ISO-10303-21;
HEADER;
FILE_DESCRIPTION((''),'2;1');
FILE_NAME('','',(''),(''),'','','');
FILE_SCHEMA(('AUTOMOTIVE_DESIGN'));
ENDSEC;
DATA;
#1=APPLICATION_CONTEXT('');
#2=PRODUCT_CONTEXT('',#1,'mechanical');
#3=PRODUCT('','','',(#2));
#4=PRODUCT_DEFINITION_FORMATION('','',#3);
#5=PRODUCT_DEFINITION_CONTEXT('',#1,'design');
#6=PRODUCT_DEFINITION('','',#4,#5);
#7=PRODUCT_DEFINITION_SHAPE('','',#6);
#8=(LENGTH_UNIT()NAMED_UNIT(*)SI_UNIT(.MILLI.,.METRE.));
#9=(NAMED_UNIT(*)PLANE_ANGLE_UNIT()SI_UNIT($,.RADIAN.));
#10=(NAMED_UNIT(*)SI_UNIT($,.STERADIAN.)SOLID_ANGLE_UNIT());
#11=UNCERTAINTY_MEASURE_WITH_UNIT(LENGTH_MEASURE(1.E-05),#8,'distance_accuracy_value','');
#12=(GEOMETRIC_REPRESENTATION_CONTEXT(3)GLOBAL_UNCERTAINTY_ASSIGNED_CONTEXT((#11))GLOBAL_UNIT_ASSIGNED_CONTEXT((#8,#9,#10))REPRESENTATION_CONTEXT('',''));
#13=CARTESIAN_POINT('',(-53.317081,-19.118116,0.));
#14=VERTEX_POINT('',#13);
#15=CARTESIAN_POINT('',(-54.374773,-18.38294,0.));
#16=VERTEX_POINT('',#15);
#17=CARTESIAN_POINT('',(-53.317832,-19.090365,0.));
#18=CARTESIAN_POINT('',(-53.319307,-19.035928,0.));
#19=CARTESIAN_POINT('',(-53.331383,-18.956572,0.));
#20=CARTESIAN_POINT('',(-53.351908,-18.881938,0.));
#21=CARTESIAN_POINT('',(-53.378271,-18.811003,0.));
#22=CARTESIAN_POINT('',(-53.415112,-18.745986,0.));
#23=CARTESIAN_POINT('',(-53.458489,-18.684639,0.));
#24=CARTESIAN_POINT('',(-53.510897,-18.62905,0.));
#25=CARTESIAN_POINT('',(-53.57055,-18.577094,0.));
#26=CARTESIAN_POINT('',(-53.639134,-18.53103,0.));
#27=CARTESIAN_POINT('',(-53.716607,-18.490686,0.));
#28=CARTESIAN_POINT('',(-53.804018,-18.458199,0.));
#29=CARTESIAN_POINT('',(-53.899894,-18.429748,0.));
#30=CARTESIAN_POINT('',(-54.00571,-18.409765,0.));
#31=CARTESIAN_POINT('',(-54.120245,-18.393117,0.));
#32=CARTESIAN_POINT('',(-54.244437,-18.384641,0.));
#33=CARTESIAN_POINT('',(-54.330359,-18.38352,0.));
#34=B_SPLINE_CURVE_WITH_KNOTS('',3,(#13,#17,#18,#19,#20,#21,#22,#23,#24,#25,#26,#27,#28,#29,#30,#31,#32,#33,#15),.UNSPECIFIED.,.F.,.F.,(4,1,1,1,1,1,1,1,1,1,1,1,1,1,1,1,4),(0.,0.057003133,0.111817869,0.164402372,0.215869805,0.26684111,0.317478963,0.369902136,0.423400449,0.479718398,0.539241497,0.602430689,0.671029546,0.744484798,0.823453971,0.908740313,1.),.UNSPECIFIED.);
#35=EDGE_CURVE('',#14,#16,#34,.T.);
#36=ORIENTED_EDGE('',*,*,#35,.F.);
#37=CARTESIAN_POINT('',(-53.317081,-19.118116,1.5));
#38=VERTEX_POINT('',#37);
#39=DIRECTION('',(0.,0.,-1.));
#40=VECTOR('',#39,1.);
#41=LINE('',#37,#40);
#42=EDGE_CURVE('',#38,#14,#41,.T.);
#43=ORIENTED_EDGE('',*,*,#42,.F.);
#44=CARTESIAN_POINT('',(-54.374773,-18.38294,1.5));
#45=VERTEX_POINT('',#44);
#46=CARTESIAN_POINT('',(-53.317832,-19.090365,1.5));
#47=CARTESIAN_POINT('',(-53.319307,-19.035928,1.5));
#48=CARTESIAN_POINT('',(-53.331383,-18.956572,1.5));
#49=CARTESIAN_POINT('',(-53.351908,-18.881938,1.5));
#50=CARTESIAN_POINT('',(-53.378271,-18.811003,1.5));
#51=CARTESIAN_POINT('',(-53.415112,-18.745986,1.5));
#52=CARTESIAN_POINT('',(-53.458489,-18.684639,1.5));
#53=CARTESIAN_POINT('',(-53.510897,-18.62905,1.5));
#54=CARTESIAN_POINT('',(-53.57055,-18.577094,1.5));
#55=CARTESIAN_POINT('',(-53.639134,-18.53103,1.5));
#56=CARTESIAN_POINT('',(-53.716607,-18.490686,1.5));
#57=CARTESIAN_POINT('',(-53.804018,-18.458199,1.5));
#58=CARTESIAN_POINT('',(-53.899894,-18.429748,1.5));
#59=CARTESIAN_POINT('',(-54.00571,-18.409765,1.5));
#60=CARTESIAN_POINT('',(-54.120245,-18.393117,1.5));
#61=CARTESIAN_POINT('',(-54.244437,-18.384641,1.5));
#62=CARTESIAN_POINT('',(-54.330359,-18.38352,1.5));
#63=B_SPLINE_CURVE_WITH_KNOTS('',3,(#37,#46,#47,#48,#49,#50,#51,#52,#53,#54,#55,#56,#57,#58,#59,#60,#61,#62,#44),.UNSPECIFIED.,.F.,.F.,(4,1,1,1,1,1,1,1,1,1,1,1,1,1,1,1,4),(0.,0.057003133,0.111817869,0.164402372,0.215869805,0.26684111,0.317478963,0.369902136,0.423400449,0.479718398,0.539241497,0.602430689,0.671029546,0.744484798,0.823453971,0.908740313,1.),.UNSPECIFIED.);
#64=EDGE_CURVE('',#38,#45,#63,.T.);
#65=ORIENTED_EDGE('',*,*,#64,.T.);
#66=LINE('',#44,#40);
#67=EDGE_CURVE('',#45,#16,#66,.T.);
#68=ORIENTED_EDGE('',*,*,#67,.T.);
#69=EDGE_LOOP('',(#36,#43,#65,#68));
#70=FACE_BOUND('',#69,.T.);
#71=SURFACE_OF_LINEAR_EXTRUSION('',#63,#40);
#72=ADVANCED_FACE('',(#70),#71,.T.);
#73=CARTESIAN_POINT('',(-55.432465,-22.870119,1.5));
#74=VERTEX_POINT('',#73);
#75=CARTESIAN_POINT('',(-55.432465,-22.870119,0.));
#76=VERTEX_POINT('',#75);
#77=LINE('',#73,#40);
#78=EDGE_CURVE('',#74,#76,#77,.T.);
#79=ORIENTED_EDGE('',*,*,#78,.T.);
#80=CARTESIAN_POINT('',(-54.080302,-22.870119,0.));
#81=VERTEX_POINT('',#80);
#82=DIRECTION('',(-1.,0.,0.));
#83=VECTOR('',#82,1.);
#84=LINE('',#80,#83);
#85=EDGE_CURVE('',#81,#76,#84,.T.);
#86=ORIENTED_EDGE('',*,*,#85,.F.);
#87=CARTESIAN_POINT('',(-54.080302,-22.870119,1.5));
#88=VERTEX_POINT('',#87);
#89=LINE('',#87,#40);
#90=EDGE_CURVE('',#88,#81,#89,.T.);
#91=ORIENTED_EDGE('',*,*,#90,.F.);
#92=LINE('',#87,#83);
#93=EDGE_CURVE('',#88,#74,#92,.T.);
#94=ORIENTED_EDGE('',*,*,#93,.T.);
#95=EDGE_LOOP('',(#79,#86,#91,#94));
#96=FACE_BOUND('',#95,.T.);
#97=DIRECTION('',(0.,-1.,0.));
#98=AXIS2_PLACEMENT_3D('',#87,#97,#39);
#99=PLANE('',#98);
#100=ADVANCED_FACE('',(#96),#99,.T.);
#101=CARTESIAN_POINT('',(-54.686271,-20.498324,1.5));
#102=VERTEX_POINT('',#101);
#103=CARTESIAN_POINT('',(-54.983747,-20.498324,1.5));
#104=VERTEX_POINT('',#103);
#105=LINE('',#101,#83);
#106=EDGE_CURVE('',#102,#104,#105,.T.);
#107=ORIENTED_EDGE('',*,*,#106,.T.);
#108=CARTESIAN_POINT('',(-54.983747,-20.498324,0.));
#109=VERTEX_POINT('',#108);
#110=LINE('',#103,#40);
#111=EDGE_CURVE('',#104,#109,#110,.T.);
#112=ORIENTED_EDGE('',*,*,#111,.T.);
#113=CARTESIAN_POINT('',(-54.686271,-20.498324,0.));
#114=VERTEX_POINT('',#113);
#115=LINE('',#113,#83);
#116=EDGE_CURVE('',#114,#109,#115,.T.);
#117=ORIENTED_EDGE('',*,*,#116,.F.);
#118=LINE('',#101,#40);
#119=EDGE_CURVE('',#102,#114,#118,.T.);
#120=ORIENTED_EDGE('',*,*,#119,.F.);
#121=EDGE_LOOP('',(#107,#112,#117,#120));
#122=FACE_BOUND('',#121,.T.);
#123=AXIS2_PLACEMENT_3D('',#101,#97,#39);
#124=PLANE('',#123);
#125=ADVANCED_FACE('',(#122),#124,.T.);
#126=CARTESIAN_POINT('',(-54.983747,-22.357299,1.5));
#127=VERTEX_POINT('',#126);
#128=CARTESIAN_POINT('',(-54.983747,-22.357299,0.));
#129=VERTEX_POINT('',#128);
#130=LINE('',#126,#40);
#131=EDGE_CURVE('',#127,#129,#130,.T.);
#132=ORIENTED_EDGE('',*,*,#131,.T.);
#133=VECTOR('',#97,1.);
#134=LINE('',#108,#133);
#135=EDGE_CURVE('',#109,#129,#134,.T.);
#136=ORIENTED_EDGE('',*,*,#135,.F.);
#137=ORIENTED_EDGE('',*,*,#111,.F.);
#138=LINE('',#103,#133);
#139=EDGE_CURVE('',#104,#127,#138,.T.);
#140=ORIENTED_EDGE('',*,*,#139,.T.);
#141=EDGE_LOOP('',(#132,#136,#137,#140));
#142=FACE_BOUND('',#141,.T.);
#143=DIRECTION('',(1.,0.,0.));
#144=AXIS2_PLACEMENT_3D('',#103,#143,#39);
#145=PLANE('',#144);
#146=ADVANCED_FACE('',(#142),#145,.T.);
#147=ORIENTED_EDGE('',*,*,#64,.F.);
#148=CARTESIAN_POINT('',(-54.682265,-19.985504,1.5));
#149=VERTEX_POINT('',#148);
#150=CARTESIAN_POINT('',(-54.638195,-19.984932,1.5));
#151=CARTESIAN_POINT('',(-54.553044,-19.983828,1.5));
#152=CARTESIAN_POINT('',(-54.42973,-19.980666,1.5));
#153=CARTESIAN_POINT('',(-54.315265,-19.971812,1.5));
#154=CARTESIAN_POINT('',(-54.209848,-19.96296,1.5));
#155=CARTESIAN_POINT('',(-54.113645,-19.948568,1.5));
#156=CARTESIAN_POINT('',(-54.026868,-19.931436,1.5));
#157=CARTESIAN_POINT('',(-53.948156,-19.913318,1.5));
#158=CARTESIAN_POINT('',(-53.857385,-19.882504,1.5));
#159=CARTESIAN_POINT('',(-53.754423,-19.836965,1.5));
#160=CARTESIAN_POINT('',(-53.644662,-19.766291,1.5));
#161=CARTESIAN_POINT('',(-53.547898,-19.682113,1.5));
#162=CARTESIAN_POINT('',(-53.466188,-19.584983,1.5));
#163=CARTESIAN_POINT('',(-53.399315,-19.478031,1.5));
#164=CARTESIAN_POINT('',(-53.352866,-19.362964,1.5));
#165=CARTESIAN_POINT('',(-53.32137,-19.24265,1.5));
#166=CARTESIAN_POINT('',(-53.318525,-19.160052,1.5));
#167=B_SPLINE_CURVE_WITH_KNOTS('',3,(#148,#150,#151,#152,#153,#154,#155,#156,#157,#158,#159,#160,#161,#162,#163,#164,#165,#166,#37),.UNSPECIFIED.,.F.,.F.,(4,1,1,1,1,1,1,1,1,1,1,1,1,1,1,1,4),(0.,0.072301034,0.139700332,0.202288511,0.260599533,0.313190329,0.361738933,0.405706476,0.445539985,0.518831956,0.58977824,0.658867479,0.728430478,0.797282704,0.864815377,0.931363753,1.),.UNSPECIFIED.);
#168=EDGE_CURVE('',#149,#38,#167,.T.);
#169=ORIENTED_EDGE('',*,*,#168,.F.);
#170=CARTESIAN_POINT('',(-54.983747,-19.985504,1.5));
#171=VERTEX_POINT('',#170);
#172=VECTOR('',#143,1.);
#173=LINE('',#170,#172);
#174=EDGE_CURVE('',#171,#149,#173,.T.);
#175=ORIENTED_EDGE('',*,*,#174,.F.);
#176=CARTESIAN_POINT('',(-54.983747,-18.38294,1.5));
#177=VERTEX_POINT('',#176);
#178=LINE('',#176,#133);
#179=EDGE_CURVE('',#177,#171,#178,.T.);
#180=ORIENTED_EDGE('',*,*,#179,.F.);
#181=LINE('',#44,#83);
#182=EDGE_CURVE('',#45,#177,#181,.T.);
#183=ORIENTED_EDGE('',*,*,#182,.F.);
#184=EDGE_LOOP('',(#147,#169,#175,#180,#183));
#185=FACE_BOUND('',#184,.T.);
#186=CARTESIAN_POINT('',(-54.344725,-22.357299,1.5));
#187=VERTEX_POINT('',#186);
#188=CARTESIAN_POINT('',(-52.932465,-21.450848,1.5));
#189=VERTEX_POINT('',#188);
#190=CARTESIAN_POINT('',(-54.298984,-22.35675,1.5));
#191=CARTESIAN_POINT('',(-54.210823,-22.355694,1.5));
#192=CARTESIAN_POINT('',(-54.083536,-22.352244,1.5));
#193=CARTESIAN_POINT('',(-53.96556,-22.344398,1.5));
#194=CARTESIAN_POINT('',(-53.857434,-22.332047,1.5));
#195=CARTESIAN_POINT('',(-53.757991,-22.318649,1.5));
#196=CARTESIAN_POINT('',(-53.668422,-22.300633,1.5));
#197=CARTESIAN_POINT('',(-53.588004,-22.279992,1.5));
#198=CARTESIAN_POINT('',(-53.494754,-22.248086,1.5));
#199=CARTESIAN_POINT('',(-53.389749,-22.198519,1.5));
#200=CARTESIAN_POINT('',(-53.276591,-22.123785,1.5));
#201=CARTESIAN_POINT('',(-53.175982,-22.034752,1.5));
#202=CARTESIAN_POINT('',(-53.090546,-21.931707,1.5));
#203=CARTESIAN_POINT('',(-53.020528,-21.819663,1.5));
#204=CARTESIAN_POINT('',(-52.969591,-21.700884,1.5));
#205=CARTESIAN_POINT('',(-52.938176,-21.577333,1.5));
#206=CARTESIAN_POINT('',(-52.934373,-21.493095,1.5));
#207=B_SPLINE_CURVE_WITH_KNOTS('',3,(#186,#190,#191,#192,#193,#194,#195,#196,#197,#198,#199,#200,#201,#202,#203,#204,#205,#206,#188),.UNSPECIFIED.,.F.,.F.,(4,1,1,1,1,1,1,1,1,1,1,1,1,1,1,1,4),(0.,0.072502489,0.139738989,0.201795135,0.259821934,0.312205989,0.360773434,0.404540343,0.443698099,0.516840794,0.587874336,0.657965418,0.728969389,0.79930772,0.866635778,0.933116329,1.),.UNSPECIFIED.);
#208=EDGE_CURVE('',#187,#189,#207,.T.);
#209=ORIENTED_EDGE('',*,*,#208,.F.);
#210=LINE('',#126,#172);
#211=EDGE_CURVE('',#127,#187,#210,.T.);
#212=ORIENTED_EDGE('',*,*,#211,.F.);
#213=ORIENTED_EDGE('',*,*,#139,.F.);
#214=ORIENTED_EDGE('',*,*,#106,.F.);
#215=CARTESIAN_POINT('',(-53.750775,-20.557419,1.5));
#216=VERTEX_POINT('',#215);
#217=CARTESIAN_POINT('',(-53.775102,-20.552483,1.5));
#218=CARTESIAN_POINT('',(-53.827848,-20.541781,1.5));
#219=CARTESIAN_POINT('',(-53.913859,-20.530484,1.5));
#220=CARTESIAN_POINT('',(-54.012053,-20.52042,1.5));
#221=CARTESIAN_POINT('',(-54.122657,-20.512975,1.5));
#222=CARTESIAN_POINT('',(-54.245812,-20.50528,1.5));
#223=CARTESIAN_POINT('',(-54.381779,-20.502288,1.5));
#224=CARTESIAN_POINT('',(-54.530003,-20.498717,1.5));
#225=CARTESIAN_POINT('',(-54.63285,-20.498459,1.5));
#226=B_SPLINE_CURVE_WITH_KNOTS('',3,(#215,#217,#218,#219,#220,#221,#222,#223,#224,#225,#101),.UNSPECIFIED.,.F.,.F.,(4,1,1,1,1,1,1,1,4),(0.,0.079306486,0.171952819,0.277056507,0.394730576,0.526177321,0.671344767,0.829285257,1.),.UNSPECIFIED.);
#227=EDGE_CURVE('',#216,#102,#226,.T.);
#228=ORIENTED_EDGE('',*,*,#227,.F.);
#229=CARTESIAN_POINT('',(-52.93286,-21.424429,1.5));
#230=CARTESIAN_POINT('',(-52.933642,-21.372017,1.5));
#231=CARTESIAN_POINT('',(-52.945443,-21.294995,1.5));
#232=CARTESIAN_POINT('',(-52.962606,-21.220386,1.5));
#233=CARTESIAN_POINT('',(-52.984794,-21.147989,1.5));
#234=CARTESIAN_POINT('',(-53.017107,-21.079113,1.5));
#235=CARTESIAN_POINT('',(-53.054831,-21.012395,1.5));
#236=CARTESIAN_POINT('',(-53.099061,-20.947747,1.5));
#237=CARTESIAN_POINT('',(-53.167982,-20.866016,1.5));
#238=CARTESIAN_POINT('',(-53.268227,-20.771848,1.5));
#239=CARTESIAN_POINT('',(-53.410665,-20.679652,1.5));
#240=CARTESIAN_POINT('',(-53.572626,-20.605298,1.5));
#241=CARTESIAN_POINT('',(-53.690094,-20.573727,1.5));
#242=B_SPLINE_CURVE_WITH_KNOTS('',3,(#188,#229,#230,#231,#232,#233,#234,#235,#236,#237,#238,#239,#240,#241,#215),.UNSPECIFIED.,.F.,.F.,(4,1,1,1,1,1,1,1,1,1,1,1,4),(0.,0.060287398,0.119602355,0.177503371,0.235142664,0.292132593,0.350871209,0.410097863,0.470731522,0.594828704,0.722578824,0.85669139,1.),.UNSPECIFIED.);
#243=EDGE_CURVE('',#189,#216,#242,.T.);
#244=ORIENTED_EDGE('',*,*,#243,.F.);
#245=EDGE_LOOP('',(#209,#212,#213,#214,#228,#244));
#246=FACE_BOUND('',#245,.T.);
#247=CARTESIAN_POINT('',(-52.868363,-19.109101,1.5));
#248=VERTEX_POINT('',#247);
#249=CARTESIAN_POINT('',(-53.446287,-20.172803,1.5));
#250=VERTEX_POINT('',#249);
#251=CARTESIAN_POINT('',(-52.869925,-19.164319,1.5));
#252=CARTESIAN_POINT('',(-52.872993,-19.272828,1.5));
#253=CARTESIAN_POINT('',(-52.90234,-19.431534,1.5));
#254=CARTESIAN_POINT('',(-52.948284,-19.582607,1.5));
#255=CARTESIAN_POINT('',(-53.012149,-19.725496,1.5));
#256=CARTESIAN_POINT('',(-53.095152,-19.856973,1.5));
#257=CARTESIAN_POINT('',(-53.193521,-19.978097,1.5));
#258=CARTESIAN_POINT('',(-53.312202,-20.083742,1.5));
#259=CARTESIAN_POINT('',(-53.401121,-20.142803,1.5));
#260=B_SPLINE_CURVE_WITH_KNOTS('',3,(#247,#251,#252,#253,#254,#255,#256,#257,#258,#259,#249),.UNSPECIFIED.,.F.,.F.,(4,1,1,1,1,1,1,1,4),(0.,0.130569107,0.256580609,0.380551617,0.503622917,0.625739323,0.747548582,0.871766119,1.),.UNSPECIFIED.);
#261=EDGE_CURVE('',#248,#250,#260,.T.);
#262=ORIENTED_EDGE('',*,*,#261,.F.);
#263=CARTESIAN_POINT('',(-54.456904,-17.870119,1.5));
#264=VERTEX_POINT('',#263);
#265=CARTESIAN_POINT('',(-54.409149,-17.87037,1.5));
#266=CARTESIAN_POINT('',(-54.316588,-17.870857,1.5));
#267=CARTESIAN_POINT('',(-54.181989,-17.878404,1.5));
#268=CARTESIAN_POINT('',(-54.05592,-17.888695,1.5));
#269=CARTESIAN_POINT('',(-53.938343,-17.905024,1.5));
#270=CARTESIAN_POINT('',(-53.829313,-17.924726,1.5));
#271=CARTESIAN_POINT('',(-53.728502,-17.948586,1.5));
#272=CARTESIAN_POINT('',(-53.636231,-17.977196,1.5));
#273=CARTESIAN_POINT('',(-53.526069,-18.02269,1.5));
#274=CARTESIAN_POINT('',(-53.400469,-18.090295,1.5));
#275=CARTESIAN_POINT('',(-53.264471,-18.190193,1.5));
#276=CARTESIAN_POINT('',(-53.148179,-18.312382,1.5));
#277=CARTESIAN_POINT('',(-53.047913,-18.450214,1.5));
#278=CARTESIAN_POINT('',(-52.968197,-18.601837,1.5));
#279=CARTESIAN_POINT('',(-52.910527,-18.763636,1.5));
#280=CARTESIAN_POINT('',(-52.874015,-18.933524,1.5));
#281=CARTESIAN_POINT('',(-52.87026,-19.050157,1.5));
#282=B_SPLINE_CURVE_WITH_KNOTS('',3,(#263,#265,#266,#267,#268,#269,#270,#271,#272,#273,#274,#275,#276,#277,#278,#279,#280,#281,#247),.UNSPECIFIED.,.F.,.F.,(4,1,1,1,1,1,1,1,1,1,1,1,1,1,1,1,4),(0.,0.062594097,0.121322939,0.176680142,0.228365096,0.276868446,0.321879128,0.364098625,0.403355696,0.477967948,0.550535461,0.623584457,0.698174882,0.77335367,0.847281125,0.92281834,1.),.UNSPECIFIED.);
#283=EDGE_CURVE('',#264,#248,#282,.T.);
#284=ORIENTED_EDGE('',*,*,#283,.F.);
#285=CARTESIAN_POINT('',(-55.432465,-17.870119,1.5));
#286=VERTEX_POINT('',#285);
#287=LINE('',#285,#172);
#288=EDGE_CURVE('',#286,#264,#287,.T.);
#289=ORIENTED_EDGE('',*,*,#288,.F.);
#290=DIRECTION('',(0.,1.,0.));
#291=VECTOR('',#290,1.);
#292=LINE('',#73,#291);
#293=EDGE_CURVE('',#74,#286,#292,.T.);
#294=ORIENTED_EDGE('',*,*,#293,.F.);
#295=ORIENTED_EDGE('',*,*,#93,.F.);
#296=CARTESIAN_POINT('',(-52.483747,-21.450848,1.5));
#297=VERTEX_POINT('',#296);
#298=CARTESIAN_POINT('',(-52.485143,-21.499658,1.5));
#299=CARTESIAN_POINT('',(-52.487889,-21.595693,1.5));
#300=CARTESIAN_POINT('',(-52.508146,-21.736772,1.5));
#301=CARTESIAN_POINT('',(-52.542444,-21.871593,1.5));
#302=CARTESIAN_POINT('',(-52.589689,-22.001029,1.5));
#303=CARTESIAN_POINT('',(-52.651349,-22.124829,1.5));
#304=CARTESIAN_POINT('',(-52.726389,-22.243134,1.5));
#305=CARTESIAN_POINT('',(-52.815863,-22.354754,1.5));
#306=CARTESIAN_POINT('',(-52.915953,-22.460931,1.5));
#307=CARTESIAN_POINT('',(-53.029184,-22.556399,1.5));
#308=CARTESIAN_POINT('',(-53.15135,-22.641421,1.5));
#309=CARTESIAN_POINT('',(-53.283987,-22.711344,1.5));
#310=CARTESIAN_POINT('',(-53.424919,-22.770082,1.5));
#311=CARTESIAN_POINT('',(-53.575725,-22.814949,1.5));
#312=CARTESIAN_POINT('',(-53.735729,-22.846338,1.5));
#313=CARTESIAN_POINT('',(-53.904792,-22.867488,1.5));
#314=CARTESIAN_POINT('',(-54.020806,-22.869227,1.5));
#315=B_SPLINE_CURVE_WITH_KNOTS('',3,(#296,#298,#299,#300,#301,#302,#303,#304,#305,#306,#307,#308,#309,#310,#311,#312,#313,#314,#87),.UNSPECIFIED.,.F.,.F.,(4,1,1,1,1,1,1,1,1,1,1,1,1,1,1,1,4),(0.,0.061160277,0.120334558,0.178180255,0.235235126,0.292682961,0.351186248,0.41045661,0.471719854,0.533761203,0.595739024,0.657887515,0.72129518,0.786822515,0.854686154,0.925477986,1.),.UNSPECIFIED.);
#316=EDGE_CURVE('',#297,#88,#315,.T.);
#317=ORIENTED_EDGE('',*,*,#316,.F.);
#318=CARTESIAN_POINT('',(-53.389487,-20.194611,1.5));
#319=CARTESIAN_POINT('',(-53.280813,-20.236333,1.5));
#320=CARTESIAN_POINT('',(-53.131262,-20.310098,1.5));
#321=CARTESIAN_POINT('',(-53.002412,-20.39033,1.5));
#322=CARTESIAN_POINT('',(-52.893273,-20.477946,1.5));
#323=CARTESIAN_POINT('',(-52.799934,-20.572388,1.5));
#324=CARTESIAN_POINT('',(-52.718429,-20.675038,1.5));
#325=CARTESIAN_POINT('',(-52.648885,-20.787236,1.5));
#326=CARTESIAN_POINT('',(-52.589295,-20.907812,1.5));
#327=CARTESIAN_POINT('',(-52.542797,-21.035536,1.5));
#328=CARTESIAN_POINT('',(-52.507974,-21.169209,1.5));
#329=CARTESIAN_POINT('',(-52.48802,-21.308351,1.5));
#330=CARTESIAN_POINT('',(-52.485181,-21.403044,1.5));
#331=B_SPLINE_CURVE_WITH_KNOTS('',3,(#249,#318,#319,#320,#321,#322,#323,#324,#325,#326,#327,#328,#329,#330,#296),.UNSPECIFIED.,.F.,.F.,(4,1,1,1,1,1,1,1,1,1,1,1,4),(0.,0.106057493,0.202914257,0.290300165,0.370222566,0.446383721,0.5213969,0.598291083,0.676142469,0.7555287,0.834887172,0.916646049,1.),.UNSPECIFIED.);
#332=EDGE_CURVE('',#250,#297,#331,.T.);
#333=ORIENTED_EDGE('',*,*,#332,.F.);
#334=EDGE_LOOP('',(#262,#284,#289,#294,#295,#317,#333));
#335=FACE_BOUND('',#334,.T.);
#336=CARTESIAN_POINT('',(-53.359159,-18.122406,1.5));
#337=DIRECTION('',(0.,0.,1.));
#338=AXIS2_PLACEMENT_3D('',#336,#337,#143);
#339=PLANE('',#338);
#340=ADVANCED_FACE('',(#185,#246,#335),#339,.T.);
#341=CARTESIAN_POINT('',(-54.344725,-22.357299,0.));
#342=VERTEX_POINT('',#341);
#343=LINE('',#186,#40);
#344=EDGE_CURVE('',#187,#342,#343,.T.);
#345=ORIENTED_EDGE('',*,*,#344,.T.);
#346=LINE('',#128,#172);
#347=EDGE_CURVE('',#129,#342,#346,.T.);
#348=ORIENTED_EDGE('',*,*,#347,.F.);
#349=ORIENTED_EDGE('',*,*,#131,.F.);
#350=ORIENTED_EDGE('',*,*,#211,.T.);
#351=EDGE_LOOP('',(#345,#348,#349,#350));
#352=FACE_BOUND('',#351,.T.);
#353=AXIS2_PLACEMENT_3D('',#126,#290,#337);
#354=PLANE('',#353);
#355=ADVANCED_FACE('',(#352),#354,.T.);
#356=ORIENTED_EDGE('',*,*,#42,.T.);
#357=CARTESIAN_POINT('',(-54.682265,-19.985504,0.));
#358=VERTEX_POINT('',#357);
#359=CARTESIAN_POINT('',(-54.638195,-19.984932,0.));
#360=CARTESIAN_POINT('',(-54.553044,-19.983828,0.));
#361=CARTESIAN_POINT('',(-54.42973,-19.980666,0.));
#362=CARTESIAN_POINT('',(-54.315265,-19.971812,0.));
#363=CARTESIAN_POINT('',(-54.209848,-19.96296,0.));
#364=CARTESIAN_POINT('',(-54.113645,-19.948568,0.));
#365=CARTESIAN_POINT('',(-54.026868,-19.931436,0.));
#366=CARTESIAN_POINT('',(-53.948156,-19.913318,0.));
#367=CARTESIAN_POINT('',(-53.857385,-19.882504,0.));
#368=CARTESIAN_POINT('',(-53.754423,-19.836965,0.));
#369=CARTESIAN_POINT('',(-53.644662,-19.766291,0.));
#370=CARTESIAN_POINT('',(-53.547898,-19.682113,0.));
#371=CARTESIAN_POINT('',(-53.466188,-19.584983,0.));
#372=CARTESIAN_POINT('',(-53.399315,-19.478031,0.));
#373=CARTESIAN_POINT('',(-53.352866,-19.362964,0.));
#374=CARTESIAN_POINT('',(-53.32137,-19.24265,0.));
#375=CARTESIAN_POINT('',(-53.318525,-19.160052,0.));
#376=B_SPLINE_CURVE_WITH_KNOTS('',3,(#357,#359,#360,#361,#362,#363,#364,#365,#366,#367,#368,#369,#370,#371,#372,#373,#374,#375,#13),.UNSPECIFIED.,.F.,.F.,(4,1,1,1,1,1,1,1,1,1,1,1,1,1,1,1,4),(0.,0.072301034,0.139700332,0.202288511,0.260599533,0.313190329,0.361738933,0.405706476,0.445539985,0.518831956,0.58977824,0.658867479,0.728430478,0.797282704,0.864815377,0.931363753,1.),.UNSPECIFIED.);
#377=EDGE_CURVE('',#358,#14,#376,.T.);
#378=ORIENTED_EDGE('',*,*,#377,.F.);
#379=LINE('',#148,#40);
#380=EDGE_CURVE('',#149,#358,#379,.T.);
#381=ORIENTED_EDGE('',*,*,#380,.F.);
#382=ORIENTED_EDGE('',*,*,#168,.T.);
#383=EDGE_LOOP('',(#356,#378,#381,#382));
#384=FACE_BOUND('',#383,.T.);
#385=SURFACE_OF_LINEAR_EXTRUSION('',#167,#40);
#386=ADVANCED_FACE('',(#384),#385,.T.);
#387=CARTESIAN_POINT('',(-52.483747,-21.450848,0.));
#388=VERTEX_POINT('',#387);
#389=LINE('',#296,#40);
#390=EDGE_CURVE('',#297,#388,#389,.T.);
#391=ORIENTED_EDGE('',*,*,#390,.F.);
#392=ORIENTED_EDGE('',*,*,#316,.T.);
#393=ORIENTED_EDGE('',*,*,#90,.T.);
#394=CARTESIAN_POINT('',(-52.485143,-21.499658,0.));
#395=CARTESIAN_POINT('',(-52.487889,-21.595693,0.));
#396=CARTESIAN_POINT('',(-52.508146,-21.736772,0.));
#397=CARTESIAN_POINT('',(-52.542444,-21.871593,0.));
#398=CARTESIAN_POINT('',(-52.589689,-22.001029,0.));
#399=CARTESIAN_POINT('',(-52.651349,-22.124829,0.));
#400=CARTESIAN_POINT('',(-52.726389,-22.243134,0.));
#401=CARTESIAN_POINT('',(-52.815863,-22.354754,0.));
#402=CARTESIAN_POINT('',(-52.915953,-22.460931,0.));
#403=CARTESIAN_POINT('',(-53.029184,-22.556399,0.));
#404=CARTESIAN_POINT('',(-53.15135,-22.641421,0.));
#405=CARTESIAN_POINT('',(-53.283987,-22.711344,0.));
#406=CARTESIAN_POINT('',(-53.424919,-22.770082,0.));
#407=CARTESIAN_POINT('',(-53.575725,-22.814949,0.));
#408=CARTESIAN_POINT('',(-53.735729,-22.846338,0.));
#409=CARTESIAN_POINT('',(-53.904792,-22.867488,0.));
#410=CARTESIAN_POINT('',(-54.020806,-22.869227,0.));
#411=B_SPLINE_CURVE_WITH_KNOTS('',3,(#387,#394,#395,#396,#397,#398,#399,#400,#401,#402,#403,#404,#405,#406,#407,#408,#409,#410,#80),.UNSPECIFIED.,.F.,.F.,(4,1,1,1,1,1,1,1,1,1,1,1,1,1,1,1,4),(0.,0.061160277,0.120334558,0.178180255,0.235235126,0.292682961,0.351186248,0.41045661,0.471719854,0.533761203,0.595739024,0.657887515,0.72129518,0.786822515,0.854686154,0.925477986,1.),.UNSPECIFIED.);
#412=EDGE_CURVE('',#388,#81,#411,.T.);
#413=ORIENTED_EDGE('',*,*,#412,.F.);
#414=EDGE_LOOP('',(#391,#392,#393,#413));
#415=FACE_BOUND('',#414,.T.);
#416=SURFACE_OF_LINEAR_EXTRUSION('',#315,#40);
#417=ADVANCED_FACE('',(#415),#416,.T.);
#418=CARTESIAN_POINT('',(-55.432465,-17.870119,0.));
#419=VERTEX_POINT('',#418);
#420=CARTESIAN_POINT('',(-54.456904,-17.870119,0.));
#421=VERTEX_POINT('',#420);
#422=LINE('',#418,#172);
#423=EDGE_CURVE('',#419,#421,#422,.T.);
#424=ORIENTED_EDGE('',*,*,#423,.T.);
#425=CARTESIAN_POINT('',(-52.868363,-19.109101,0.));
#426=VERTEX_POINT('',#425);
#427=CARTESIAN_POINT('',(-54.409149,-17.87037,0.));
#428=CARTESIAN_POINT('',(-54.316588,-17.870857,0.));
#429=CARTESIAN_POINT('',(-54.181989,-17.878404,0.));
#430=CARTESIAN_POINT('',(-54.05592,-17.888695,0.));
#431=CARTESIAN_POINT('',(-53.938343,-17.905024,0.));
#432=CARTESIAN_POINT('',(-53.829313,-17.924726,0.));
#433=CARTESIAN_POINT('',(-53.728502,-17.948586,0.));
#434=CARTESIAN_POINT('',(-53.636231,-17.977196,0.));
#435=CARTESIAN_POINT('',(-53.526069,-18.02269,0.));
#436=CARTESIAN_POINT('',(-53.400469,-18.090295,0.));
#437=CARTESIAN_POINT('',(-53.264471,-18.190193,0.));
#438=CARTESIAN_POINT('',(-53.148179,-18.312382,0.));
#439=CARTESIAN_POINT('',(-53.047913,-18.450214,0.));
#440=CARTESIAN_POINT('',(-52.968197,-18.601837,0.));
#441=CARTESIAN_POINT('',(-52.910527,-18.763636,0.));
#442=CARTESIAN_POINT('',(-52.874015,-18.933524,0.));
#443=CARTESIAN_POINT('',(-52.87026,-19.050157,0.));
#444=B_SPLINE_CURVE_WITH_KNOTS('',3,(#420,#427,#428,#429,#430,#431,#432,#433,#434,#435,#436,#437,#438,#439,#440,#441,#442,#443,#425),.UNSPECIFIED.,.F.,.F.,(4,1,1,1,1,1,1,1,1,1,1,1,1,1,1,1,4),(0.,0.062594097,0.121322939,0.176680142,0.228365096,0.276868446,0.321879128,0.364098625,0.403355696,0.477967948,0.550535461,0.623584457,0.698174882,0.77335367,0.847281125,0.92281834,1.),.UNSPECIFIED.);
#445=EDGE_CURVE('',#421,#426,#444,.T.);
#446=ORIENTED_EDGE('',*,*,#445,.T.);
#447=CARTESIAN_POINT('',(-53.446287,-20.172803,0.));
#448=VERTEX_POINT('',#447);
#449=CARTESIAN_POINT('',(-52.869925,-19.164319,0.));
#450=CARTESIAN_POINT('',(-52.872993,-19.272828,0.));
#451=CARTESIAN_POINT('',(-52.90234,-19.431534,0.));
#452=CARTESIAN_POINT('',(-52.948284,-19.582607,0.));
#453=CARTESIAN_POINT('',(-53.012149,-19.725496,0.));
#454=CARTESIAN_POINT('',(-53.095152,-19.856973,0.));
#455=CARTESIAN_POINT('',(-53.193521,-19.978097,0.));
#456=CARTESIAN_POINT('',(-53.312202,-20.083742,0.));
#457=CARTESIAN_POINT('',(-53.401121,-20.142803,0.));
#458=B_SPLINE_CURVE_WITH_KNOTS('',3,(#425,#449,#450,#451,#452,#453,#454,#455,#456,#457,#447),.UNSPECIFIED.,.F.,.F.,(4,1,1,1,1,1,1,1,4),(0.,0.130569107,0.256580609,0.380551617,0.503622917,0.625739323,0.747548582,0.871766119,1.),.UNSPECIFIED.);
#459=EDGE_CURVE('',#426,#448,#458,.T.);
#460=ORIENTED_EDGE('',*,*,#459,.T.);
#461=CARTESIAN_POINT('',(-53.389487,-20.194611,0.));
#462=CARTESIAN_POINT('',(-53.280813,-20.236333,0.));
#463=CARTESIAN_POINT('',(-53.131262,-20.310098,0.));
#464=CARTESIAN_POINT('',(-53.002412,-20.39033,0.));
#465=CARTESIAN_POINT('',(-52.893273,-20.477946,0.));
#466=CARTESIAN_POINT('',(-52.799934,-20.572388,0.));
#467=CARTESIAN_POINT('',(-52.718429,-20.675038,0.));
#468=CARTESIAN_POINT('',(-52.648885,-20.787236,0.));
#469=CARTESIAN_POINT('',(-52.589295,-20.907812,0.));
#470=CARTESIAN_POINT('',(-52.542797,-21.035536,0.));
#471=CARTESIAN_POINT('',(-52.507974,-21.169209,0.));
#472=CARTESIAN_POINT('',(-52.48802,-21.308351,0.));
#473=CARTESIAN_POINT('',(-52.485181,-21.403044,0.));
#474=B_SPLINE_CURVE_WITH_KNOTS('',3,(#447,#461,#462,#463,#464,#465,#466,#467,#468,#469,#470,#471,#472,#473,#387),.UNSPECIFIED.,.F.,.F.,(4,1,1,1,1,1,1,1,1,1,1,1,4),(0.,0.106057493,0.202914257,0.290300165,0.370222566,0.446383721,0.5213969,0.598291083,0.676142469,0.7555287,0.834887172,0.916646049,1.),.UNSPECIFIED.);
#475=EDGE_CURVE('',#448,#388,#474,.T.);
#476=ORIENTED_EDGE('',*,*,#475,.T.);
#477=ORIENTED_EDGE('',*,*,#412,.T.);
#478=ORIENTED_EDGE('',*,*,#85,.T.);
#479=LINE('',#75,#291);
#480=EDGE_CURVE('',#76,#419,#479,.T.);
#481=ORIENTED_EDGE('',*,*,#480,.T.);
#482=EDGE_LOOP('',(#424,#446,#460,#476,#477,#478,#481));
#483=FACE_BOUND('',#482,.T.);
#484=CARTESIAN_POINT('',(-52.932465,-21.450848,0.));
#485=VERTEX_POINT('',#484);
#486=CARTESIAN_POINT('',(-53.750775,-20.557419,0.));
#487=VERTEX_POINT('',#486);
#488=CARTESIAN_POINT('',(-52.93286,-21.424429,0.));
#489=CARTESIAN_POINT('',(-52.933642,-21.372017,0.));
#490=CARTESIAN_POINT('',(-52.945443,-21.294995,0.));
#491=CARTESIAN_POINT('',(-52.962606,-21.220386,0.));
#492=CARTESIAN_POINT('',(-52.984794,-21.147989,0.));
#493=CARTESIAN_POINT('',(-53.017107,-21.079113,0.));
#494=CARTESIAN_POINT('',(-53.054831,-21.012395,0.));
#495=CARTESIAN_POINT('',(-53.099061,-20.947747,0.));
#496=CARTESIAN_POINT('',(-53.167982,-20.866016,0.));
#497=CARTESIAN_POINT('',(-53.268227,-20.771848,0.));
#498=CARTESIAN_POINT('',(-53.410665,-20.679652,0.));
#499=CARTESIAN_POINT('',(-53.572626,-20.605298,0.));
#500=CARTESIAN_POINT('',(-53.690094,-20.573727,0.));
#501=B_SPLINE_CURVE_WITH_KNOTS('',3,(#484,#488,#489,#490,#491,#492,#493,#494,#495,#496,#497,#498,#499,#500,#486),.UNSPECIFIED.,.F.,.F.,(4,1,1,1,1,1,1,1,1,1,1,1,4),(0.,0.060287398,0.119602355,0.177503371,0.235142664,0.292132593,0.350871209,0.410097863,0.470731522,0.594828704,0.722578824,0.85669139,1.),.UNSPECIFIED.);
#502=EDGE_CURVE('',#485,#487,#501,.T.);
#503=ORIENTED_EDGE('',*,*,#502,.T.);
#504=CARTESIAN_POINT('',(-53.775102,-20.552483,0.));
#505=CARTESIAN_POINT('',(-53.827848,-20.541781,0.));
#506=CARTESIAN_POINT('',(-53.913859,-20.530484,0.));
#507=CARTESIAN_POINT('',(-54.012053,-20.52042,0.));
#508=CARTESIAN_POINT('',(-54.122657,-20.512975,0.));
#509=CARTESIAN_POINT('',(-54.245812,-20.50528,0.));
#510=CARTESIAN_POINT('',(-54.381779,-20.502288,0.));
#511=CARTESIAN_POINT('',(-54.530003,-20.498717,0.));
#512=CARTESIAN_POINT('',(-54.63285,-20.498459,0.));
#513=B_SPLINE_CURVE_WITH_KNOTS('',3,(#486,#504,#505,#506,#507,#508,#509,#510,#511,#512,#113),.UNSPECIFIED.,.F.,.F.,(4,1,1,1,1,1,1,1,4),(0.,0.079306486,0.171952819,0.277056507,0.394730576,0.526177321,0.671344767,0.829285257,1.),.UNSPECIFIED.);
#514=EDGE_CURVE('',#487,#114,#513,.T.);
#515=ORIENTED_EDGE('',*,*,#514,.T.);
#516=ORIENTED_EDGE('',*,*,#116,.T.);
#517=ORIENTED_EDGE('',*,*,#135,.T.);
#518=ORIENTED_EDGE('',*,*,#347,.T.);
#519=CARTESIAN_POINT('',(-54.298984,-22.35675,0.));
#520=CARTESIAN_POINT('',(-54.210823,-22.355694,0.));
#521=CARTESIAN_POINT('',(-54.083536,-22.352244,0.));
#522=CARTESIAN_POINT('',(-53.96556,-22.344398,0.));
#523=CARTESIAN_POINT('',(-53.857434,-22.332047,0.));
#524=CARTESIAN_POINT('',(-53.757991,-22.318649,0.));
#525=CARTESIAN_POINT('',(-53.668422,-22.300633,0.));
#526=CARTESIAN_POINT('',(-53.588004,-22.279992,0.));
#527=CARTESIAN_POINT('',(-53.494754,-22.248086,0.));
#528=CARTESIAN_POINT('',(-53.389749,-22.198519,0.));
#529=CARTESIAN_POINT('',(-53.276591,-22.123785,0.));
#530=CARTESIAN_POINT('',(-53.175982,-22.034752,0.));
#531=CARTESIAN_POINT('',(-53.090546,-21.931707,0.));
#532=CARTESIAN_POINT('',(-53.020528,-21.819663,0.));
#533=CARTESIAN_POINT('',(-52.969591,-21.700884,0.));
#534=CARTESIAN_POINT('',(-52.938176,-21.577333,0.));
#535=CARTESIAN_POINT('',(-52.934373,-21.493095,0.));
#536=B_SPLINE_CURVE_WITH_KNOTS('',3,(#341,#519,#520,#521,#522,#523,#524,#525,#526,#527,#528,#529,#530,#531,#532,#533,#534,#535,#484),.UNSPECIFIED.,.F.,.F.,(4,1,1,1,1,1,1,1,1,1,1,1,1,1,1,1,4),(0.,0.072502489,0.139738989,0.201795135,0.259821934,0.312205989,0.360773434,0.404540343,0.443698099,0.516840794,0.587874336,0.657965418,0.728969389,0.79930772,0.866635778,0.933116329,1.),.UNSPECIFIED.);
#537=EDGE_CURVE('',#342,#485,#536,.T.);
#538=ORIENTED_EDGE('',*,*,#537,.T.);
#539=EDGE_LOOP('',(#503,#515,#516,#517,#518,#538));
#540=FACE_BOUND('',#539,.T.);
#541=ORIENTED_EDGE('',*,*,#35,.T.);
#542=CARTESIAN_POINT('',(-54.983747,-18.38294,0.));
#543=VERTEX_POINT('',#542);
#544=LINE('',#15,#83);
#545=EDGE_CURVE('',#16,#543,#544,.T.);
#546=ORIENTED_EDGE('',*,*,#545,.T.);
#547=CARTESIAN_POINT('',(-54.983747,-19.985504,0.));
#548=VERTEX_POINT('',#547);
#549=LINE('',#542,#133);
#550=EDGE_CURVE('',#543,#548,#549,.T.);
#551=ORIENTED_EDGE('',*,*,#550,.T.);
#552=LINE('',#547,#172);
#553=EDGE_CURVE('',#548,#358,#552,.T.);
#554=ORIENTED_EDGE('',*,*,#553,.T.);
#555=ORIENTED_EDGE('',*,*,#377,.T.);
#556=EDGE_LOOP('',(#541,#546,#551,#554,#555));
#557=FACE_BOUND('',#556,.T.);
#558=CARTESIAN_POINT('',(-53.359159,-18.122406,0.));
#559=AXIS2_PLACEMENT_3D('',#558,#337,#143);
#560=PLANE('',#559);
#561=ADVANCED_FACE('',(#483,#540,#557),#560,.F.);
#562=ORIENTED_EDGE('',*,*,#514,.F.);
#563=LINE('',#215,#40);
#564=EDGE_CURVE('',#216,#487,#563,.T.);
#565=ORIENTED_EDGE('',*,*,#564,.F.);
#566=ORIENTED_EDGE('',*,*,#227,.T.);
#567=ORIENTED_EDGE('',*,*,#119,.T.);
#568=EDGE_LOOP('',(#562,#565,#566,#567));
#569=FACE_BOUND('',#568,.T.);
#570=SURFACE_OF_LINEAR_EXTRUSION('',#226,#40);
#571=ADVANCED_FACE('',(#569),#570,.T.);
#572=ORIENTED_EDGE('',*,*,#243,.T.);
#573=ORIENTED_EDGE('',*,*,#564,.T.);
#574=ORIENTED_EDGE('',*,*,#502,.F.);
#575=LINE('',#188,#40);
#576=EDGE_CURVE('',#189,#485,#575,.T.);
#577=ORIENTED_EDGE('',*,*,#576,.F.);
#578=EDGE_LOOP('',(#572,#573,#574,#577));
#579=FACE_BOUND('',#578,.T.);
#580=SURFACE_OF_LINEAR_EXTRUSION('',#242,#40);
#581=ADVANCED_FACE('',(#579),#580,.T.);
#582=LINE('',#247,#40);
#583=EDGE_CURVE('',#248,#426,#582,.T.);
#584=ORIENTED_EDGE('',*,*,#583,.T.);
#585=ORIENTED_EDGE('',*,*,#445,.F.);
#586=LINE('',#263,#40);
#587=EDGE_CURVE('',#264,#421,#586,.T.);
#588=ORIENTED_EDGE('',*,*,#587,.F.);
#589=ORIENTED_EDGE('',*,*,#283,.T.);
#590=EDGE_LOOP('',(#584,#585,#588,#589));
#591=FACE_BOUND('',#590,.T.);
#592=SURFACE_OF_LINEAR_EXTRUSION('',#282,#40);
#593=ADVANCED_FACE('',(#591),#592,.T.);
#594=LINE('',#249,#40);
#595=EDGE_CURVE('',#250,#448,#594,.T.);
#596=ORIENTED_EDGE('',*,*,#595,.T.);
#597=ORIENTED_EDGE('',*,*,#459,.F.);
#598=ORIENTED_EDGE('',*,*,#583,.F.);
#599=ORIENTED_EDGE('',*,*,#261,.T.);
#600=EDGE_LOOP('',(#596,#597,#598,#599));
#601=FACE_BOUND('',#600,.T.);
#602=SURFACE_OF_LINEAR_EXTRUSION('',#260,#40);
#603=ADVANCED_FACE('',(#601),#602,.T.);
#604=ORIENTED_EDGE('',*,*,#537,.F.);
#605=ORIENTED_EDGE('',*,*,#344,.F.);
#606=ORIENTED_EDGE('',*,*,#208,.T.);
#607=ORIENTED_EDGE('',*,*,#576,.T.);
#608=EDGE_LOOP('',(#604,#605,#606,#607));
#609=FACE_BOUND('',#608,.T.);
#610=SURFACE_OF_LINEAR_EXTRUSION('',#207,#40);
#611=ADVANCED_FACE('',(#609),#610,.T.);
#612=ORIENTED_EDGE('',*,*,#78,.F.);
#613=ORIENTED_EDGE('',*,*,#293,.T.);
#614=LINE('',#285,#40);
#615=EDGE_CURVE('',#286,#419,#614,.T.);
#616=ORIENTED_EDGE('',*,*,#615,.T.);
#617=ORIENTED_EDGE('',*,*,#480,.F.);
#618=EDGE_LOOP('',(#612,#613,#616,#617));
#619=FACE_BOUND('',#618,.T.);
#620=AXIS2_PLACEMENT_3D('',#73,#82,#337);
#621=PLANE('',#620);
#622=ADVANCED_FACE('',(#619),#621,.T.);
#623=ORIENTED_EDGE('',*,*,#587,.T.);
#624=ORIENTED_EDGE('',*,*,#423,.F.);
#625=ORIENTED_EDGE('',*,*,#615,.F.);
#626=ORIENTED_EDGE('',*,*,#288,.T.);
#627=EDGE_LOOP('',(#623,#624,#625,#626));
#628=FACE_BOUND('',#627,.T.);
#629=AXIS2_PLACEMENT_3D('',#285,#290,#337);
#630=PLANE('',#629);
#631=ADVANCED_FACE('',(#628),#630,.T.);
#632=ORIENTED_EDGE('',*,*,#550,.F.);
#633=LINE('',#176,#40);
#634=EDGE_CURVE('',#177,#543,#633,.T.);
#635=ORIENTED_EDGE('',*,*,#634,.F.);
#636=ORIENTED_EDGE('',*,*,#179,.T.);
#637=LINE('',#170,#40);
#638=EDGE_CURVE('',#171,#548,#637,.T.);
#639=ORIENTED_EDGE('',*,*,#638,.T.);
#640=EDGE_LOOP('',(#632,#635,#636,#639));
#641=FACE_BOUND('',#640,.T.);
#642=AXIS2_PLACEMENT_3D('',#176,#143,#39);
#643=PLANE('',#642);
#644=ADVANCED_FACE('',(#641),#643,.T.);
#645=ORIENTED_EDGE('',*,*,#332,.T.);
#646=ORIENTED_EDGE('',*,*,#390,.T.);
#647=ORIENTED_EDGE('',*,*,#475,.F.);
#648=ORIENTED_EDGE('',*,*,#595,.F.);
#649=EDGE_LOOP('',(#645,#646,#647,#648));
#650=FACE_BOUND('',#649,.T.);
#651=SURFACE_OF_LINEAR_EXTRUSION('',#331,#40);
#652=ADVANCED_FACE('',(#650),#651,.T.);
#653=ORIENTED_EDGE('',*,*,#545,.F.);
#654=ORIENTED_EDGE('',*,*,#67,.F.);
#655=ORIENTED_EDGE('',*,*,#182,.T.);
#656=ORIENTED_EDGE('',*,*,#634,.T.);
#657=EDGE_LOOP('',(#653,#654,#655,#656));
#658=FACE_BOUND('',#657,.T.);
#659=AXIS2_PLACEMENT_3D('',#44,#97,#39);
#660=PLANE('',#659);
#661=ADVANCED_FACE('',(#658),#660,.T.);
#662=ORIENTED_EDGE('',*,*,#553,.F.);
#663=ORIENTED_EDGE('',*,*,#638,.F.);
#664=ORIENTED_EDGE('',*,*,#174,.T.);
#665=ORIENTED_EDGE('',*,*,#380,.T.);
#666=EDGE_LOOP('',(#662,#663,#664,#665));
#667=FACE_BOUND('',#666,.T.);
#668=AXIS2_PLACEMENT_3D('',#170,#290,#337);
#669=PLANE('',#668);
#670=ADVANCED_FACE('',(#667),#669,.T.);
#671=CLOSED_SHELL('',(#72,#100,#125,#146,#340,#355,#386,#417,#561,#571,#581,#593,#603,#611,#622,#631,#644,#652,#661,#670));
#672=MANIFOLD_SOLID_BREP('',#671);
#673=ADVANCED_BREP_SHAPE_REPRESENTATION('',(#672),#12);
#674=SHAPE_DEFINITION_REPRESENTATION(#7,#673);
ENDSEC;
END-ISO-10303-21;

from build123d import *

# Parameters (mm, degrees)
BOSS_EXTRU_1_DEPTH = 1.5


with BuildPart() as part:
    # Esquisse1 → Boss.-Extru.1 (new body)
    with BuildSketch(Plane.XY):
        with BuildLine():
            Line((-55.432465326, -17.870119076), (-54.456904428, -17.870119076))
            add(Edge.make_bspline(
                [(-54.456904428, -17.870119076), (-54.40914946, -17.870370148), (-54.316588445, -17.870856788), (-54.181989242, -17.878404118), (-54.055919513, -17.888695075), (-53.938342695, -17.905023779), (-53.82931312, -17.924726318), (-53.72850221, -17.948586055), (-53.636230535, -17.977195503), (-53.526069483, -18.022690191), (-53.400468539, -18.090294717), (-53.264470835, -18.190192667), (-53.148179065, -18.3123819), (-53.047912897, -18.450214265), (-52.968197012, -18.601836796), (-52.910526587, -18.763635637), (-52.874015337, -18.93352384), (-52.870260431, -19.050156951), (-52.868362762, -19.109101448)],
                knots=[0, 0, 0, 0, 1.001505555, 1.941167018, 2.826882275, 3.653841531, 4.429895133, 5.150066043, 5.825578002, 6.45369114, 7.647487171, 8.808567382, 9.977351308, 11.170798116, 12.373658725, 13.556498008, 14.765093433, 16, 16, 16, 16], degree=3))
            add(Edge.make_bspline(
                [(-52.868362762, -19.109101448), (-52.869924502, -19.164319385), (-52.87299347, -19.272827838), (-52.902340269, -19.431533708), (-52.948284081, -19.582606878), (-53.012148723, -19.725496), (-53.095151574, -19.85697259), (-53.193520601, -19.978097256), (-53.312201748, -20.083741623), (-53.401120662, -20.142802912), (-53.446287441, -20.172803371)],
                knots=[0, 0, 0, 0, 1.044552857, 2.05264487, 3.044412934, 4.028983338, 5.005914585, 5.980388656, 6.974128949, 8, 8, 8, 8], degree=3))
            add(Edge.make_bspline(
                [(-53.446287441, -20.172803371), (-53.38948683, -20.194610512), (-53.280813191, -20.236332976), (-53.131261745, -20.310097924), (-53.002411966, -20.390329511), (-52.893273186, -20.477946439), (-52.799933679, -20.572387598), (-52.718429477, -20.675037761), (-52.648884657, -20.787235987), (-52.589294766, -20.907812466), (-52.542796543, -21.035535992), (-52.507973823, -21.169208529), (-52.488020324, -21.308350751), (-52.485180836, -21.40304415), (-52.483747377, -21.450848243)],
                knots=[0, 0, 0, 0, 1.27268992, 2.434971085, 3.483601985, 4.442670788, 5.356604649, 6.2567628, 7.179492994, 8.113709626, 9.066344395, 10.018646069, 10.999752585, 12, 12, 12, 12], degree=3))
            add(Edge.make_bspline(
                [(-52.483747377, -21.450848243), (-52.485142871, -21.49965806), (-52.487888546, -21.595692743), (-52.508145648, -21.736771507), (-52.542444372, -21.871592859), (-52.589688867, -22.001028834), (-52.651349317, -22.124829027), (-52.726389266, -22.243133689), (-52.815862928, -22.354754162), (-52.915952741, -22.460930766), (-53.029184377, -22.556399034), (-53.151349741, -22.641421472), (-53.283987341, -22.711344418), (-53.424918761, -22.770081591), (-53.575724927, -22.814949018), (-53.735728652, -22.846338409), (-53.90479194, -22.867488462), (-54.02080587, -22.869227326), (-54.080301864, -22.870119076)],
                knots=[0, 0, 0, 0, 0.978564426, 1.925352924, 2.850884081, 3.763762016, 4.682927383, 5.618979971, 6.567305752, 7.547517671, 8.540179244, 9.531824382, 10.526200242, 11.540722885, 12.589160233, 13.674978461, 14.80764778, 16, 16, 16, 16], degree=3))
            Line((-54.080301864, -22.870119076), (-55.432465326, -22.870119076))
            Line((-55.432465326, -22.870119076), (-55.432465326, -17.870119076))
        make_face()
        with BuildLine():
            Line((-54.983747377, -18.382939589), (-54.983747377, -19.985503692))
            Line((-54.983747377, -19.985503692), (-54.682265005, -19.985503692))
            add(Edge.make_bspline(
                [(-54.682265005, -19.985503692), (-54.638195298, -19.984932373), (-54.553043642, -19.983828469), (-54.429729504, -19.980666302), (-54.315265192, -19.971811954), (-54.209848288, -19.962960151), (-54.113644796, -19.948567883), (-54.026867851, -19.931436279), (-53.94815557, -19.913317843), (-53.857384791, -19.88250429), (-53.754423436, -19.836964754), (-53.644661858, -19.766290703), (-53.54789833, -19.682113055), (-53.466188062, -19.58498311), (-53.399314533, -19.478031416), (-53.352866368, -19.362964444), (-53.321370248, -19.24264997), (-53.318525203, -19.160052466), (-53.31708071, -19.118115871)],
                knots=[0, 0, 0, 0, 1.156816544, 2.235205308, 3.236616184, 4.169592532, 5.011045266, 5.787822928, 6.49130361, 7.128639758, 8.301311294, 9.436451833, 10.541879658, 11.654887649, 12.756523258, 13.837046038, 14.901820046, 16, 16, 16, 16], degree=3))
            add(Edge.make_bspline(
                [(-53.31708071, -19.118115871), (-53.317832396, -19.090364769), (-53.319306911, -19.035927952), (-53.331383057, -18.956571731), (-53.351908164, -18.881937799), (-53.37827144, -18.811003356), (-53.415112423, -18.745986427), (-53.4584888, -18.684639005), (-53.510896929, -18.629050264), (-53.570550232, -18.577093838), (-53.639133979, -18.531030227), (-53.716607253, -18.490686279), (-53.804018221, -18.458199455), (-53.899893728, -18.429747809), (-54.005709567, -18.409764532), (-54.120244643, -18.393116835), (-54.244437099, -18.38464149), (-54.330358674, -18.383519543), (-54.374773018, -18.382939589)],
                knots=[0, 0, 0, 0, 0.91205012, 1.789085906, 2.630437955, 3.453916878, 4.269457761, 5.079663411, 5.91843418, 6.774407191, 7.675494373, 8.627863946, 9.638891023, 10.736472738, 11.911756761, 13.175263542, 14.539845004, 16, 16, 16, 16], degree=3))
            Line((-54.374773018, -18.382939589), (-54.983747377, -18.382939589))
        make_face(mode=Mode.SUBTRACT)
        with BuildLine():
            Line((-54.983747377, -20.498324204), (-54.983747377, -22.357298563))
            Line((-54.983747377, -22.357298563), (-54.344724941, -22.357298563))
            add(Edge.make_bspline(
                [(-54.344724941, -22.357298563), (-54.298983619, -22.356750353), (-54.210823249, -22.355693749), (-54.083535778, -22.352244386), (-53.965559915, -22.344398277), (-53.857434007, -22.332047064), (-53.757990503, -22.318649279), (-53.668422356, -22.300633164), (-53.588003508, -22.279991791), (-53.494754497, -22.248085831), (-53.389749485, -22.198519444), (-53.276591119, -22.123784835), (-53.175982236, -22.034751538), (-53.090546151, -21.931707375), (-53.020527596, -21.819662622), (-52.969591232, -21.700883551), (-52.938175722, -21.577332797), (-52.934372623, -21.493094637), (-52.932465326, -21.450848243)],
                knots=[0, 0, 0, 0, 1.160039823, 2.235823828, 3.228722157, 4.157150951, 4.99529583, 5.772374946, 6.472645482, 7.099169577, 8.269452708, 9.405989375, 10.527446681, 11.663510218, 12.788923519, 13.866172445, 14.929861265, 16, 16, 16, 16], degree=3))
            add(Edge.make_bspline(
                [(-52.932465326, -21.450848243), (-52.932859761, -21.424429185), (-52.933642268, -21.372017211), (-52.945443146, -21.294994612), (-52.962605818, -21.220386222), (-52.98479358, -21.14798945), (-53.017107105, -21.079113198), (-53.05483074, -21.012395256), (-53.099061314, -20.947747428), (-53.167981551, -20.866015637), (-53.268227243, -20.771848476), (-53.410665494, -20.679652044), (-53.57262592, -20.605298034), (-53.690093767, -20.573727353), (-53.750774621, -20.557418756)],
                knots=[0, 0, 0, 0, 0.723448775, 1.435228256, 2.130040452, 2.821711965, 3.505591119, 4.210454504, 4.921174351, 5.648778258, 7.137944449, 8.670945889, 10.280296675, 12, 12, 12, 12], degree=3))
            add(Edge.make_bspline(
                [(-53.750774621, -20.557418756), (-53.775101901, -20.552482921), (-53.827848461, -20.541781015), (-53.91385929, -20.530484296), (-54.012053389, -20.520419924), (-54.122657499, -20.512975413), (-54.245811558, -20.505280351), (-54.381778584, -20.50228775), (-54.53000332, -20.498717378), (-54.632849566, -20.498458615), (-54.686271416, -20.498324204)],
                knots=[0, 0, 0, 0, 0.634451884, 1.375622551, 2.216452059, 3.157844607, 4.20941857, 5.370758133, 6.634282058, 8, 8, 8, 8], degree=3))
            Line((-54.686271416, -20.498324204), (-54.983747377, -20.498324204))
        make_face(mode=Mode.SUBTRACT)
    extrude(amount=BOSS_EXTRU_1_DEPTH)


solid = part.part
